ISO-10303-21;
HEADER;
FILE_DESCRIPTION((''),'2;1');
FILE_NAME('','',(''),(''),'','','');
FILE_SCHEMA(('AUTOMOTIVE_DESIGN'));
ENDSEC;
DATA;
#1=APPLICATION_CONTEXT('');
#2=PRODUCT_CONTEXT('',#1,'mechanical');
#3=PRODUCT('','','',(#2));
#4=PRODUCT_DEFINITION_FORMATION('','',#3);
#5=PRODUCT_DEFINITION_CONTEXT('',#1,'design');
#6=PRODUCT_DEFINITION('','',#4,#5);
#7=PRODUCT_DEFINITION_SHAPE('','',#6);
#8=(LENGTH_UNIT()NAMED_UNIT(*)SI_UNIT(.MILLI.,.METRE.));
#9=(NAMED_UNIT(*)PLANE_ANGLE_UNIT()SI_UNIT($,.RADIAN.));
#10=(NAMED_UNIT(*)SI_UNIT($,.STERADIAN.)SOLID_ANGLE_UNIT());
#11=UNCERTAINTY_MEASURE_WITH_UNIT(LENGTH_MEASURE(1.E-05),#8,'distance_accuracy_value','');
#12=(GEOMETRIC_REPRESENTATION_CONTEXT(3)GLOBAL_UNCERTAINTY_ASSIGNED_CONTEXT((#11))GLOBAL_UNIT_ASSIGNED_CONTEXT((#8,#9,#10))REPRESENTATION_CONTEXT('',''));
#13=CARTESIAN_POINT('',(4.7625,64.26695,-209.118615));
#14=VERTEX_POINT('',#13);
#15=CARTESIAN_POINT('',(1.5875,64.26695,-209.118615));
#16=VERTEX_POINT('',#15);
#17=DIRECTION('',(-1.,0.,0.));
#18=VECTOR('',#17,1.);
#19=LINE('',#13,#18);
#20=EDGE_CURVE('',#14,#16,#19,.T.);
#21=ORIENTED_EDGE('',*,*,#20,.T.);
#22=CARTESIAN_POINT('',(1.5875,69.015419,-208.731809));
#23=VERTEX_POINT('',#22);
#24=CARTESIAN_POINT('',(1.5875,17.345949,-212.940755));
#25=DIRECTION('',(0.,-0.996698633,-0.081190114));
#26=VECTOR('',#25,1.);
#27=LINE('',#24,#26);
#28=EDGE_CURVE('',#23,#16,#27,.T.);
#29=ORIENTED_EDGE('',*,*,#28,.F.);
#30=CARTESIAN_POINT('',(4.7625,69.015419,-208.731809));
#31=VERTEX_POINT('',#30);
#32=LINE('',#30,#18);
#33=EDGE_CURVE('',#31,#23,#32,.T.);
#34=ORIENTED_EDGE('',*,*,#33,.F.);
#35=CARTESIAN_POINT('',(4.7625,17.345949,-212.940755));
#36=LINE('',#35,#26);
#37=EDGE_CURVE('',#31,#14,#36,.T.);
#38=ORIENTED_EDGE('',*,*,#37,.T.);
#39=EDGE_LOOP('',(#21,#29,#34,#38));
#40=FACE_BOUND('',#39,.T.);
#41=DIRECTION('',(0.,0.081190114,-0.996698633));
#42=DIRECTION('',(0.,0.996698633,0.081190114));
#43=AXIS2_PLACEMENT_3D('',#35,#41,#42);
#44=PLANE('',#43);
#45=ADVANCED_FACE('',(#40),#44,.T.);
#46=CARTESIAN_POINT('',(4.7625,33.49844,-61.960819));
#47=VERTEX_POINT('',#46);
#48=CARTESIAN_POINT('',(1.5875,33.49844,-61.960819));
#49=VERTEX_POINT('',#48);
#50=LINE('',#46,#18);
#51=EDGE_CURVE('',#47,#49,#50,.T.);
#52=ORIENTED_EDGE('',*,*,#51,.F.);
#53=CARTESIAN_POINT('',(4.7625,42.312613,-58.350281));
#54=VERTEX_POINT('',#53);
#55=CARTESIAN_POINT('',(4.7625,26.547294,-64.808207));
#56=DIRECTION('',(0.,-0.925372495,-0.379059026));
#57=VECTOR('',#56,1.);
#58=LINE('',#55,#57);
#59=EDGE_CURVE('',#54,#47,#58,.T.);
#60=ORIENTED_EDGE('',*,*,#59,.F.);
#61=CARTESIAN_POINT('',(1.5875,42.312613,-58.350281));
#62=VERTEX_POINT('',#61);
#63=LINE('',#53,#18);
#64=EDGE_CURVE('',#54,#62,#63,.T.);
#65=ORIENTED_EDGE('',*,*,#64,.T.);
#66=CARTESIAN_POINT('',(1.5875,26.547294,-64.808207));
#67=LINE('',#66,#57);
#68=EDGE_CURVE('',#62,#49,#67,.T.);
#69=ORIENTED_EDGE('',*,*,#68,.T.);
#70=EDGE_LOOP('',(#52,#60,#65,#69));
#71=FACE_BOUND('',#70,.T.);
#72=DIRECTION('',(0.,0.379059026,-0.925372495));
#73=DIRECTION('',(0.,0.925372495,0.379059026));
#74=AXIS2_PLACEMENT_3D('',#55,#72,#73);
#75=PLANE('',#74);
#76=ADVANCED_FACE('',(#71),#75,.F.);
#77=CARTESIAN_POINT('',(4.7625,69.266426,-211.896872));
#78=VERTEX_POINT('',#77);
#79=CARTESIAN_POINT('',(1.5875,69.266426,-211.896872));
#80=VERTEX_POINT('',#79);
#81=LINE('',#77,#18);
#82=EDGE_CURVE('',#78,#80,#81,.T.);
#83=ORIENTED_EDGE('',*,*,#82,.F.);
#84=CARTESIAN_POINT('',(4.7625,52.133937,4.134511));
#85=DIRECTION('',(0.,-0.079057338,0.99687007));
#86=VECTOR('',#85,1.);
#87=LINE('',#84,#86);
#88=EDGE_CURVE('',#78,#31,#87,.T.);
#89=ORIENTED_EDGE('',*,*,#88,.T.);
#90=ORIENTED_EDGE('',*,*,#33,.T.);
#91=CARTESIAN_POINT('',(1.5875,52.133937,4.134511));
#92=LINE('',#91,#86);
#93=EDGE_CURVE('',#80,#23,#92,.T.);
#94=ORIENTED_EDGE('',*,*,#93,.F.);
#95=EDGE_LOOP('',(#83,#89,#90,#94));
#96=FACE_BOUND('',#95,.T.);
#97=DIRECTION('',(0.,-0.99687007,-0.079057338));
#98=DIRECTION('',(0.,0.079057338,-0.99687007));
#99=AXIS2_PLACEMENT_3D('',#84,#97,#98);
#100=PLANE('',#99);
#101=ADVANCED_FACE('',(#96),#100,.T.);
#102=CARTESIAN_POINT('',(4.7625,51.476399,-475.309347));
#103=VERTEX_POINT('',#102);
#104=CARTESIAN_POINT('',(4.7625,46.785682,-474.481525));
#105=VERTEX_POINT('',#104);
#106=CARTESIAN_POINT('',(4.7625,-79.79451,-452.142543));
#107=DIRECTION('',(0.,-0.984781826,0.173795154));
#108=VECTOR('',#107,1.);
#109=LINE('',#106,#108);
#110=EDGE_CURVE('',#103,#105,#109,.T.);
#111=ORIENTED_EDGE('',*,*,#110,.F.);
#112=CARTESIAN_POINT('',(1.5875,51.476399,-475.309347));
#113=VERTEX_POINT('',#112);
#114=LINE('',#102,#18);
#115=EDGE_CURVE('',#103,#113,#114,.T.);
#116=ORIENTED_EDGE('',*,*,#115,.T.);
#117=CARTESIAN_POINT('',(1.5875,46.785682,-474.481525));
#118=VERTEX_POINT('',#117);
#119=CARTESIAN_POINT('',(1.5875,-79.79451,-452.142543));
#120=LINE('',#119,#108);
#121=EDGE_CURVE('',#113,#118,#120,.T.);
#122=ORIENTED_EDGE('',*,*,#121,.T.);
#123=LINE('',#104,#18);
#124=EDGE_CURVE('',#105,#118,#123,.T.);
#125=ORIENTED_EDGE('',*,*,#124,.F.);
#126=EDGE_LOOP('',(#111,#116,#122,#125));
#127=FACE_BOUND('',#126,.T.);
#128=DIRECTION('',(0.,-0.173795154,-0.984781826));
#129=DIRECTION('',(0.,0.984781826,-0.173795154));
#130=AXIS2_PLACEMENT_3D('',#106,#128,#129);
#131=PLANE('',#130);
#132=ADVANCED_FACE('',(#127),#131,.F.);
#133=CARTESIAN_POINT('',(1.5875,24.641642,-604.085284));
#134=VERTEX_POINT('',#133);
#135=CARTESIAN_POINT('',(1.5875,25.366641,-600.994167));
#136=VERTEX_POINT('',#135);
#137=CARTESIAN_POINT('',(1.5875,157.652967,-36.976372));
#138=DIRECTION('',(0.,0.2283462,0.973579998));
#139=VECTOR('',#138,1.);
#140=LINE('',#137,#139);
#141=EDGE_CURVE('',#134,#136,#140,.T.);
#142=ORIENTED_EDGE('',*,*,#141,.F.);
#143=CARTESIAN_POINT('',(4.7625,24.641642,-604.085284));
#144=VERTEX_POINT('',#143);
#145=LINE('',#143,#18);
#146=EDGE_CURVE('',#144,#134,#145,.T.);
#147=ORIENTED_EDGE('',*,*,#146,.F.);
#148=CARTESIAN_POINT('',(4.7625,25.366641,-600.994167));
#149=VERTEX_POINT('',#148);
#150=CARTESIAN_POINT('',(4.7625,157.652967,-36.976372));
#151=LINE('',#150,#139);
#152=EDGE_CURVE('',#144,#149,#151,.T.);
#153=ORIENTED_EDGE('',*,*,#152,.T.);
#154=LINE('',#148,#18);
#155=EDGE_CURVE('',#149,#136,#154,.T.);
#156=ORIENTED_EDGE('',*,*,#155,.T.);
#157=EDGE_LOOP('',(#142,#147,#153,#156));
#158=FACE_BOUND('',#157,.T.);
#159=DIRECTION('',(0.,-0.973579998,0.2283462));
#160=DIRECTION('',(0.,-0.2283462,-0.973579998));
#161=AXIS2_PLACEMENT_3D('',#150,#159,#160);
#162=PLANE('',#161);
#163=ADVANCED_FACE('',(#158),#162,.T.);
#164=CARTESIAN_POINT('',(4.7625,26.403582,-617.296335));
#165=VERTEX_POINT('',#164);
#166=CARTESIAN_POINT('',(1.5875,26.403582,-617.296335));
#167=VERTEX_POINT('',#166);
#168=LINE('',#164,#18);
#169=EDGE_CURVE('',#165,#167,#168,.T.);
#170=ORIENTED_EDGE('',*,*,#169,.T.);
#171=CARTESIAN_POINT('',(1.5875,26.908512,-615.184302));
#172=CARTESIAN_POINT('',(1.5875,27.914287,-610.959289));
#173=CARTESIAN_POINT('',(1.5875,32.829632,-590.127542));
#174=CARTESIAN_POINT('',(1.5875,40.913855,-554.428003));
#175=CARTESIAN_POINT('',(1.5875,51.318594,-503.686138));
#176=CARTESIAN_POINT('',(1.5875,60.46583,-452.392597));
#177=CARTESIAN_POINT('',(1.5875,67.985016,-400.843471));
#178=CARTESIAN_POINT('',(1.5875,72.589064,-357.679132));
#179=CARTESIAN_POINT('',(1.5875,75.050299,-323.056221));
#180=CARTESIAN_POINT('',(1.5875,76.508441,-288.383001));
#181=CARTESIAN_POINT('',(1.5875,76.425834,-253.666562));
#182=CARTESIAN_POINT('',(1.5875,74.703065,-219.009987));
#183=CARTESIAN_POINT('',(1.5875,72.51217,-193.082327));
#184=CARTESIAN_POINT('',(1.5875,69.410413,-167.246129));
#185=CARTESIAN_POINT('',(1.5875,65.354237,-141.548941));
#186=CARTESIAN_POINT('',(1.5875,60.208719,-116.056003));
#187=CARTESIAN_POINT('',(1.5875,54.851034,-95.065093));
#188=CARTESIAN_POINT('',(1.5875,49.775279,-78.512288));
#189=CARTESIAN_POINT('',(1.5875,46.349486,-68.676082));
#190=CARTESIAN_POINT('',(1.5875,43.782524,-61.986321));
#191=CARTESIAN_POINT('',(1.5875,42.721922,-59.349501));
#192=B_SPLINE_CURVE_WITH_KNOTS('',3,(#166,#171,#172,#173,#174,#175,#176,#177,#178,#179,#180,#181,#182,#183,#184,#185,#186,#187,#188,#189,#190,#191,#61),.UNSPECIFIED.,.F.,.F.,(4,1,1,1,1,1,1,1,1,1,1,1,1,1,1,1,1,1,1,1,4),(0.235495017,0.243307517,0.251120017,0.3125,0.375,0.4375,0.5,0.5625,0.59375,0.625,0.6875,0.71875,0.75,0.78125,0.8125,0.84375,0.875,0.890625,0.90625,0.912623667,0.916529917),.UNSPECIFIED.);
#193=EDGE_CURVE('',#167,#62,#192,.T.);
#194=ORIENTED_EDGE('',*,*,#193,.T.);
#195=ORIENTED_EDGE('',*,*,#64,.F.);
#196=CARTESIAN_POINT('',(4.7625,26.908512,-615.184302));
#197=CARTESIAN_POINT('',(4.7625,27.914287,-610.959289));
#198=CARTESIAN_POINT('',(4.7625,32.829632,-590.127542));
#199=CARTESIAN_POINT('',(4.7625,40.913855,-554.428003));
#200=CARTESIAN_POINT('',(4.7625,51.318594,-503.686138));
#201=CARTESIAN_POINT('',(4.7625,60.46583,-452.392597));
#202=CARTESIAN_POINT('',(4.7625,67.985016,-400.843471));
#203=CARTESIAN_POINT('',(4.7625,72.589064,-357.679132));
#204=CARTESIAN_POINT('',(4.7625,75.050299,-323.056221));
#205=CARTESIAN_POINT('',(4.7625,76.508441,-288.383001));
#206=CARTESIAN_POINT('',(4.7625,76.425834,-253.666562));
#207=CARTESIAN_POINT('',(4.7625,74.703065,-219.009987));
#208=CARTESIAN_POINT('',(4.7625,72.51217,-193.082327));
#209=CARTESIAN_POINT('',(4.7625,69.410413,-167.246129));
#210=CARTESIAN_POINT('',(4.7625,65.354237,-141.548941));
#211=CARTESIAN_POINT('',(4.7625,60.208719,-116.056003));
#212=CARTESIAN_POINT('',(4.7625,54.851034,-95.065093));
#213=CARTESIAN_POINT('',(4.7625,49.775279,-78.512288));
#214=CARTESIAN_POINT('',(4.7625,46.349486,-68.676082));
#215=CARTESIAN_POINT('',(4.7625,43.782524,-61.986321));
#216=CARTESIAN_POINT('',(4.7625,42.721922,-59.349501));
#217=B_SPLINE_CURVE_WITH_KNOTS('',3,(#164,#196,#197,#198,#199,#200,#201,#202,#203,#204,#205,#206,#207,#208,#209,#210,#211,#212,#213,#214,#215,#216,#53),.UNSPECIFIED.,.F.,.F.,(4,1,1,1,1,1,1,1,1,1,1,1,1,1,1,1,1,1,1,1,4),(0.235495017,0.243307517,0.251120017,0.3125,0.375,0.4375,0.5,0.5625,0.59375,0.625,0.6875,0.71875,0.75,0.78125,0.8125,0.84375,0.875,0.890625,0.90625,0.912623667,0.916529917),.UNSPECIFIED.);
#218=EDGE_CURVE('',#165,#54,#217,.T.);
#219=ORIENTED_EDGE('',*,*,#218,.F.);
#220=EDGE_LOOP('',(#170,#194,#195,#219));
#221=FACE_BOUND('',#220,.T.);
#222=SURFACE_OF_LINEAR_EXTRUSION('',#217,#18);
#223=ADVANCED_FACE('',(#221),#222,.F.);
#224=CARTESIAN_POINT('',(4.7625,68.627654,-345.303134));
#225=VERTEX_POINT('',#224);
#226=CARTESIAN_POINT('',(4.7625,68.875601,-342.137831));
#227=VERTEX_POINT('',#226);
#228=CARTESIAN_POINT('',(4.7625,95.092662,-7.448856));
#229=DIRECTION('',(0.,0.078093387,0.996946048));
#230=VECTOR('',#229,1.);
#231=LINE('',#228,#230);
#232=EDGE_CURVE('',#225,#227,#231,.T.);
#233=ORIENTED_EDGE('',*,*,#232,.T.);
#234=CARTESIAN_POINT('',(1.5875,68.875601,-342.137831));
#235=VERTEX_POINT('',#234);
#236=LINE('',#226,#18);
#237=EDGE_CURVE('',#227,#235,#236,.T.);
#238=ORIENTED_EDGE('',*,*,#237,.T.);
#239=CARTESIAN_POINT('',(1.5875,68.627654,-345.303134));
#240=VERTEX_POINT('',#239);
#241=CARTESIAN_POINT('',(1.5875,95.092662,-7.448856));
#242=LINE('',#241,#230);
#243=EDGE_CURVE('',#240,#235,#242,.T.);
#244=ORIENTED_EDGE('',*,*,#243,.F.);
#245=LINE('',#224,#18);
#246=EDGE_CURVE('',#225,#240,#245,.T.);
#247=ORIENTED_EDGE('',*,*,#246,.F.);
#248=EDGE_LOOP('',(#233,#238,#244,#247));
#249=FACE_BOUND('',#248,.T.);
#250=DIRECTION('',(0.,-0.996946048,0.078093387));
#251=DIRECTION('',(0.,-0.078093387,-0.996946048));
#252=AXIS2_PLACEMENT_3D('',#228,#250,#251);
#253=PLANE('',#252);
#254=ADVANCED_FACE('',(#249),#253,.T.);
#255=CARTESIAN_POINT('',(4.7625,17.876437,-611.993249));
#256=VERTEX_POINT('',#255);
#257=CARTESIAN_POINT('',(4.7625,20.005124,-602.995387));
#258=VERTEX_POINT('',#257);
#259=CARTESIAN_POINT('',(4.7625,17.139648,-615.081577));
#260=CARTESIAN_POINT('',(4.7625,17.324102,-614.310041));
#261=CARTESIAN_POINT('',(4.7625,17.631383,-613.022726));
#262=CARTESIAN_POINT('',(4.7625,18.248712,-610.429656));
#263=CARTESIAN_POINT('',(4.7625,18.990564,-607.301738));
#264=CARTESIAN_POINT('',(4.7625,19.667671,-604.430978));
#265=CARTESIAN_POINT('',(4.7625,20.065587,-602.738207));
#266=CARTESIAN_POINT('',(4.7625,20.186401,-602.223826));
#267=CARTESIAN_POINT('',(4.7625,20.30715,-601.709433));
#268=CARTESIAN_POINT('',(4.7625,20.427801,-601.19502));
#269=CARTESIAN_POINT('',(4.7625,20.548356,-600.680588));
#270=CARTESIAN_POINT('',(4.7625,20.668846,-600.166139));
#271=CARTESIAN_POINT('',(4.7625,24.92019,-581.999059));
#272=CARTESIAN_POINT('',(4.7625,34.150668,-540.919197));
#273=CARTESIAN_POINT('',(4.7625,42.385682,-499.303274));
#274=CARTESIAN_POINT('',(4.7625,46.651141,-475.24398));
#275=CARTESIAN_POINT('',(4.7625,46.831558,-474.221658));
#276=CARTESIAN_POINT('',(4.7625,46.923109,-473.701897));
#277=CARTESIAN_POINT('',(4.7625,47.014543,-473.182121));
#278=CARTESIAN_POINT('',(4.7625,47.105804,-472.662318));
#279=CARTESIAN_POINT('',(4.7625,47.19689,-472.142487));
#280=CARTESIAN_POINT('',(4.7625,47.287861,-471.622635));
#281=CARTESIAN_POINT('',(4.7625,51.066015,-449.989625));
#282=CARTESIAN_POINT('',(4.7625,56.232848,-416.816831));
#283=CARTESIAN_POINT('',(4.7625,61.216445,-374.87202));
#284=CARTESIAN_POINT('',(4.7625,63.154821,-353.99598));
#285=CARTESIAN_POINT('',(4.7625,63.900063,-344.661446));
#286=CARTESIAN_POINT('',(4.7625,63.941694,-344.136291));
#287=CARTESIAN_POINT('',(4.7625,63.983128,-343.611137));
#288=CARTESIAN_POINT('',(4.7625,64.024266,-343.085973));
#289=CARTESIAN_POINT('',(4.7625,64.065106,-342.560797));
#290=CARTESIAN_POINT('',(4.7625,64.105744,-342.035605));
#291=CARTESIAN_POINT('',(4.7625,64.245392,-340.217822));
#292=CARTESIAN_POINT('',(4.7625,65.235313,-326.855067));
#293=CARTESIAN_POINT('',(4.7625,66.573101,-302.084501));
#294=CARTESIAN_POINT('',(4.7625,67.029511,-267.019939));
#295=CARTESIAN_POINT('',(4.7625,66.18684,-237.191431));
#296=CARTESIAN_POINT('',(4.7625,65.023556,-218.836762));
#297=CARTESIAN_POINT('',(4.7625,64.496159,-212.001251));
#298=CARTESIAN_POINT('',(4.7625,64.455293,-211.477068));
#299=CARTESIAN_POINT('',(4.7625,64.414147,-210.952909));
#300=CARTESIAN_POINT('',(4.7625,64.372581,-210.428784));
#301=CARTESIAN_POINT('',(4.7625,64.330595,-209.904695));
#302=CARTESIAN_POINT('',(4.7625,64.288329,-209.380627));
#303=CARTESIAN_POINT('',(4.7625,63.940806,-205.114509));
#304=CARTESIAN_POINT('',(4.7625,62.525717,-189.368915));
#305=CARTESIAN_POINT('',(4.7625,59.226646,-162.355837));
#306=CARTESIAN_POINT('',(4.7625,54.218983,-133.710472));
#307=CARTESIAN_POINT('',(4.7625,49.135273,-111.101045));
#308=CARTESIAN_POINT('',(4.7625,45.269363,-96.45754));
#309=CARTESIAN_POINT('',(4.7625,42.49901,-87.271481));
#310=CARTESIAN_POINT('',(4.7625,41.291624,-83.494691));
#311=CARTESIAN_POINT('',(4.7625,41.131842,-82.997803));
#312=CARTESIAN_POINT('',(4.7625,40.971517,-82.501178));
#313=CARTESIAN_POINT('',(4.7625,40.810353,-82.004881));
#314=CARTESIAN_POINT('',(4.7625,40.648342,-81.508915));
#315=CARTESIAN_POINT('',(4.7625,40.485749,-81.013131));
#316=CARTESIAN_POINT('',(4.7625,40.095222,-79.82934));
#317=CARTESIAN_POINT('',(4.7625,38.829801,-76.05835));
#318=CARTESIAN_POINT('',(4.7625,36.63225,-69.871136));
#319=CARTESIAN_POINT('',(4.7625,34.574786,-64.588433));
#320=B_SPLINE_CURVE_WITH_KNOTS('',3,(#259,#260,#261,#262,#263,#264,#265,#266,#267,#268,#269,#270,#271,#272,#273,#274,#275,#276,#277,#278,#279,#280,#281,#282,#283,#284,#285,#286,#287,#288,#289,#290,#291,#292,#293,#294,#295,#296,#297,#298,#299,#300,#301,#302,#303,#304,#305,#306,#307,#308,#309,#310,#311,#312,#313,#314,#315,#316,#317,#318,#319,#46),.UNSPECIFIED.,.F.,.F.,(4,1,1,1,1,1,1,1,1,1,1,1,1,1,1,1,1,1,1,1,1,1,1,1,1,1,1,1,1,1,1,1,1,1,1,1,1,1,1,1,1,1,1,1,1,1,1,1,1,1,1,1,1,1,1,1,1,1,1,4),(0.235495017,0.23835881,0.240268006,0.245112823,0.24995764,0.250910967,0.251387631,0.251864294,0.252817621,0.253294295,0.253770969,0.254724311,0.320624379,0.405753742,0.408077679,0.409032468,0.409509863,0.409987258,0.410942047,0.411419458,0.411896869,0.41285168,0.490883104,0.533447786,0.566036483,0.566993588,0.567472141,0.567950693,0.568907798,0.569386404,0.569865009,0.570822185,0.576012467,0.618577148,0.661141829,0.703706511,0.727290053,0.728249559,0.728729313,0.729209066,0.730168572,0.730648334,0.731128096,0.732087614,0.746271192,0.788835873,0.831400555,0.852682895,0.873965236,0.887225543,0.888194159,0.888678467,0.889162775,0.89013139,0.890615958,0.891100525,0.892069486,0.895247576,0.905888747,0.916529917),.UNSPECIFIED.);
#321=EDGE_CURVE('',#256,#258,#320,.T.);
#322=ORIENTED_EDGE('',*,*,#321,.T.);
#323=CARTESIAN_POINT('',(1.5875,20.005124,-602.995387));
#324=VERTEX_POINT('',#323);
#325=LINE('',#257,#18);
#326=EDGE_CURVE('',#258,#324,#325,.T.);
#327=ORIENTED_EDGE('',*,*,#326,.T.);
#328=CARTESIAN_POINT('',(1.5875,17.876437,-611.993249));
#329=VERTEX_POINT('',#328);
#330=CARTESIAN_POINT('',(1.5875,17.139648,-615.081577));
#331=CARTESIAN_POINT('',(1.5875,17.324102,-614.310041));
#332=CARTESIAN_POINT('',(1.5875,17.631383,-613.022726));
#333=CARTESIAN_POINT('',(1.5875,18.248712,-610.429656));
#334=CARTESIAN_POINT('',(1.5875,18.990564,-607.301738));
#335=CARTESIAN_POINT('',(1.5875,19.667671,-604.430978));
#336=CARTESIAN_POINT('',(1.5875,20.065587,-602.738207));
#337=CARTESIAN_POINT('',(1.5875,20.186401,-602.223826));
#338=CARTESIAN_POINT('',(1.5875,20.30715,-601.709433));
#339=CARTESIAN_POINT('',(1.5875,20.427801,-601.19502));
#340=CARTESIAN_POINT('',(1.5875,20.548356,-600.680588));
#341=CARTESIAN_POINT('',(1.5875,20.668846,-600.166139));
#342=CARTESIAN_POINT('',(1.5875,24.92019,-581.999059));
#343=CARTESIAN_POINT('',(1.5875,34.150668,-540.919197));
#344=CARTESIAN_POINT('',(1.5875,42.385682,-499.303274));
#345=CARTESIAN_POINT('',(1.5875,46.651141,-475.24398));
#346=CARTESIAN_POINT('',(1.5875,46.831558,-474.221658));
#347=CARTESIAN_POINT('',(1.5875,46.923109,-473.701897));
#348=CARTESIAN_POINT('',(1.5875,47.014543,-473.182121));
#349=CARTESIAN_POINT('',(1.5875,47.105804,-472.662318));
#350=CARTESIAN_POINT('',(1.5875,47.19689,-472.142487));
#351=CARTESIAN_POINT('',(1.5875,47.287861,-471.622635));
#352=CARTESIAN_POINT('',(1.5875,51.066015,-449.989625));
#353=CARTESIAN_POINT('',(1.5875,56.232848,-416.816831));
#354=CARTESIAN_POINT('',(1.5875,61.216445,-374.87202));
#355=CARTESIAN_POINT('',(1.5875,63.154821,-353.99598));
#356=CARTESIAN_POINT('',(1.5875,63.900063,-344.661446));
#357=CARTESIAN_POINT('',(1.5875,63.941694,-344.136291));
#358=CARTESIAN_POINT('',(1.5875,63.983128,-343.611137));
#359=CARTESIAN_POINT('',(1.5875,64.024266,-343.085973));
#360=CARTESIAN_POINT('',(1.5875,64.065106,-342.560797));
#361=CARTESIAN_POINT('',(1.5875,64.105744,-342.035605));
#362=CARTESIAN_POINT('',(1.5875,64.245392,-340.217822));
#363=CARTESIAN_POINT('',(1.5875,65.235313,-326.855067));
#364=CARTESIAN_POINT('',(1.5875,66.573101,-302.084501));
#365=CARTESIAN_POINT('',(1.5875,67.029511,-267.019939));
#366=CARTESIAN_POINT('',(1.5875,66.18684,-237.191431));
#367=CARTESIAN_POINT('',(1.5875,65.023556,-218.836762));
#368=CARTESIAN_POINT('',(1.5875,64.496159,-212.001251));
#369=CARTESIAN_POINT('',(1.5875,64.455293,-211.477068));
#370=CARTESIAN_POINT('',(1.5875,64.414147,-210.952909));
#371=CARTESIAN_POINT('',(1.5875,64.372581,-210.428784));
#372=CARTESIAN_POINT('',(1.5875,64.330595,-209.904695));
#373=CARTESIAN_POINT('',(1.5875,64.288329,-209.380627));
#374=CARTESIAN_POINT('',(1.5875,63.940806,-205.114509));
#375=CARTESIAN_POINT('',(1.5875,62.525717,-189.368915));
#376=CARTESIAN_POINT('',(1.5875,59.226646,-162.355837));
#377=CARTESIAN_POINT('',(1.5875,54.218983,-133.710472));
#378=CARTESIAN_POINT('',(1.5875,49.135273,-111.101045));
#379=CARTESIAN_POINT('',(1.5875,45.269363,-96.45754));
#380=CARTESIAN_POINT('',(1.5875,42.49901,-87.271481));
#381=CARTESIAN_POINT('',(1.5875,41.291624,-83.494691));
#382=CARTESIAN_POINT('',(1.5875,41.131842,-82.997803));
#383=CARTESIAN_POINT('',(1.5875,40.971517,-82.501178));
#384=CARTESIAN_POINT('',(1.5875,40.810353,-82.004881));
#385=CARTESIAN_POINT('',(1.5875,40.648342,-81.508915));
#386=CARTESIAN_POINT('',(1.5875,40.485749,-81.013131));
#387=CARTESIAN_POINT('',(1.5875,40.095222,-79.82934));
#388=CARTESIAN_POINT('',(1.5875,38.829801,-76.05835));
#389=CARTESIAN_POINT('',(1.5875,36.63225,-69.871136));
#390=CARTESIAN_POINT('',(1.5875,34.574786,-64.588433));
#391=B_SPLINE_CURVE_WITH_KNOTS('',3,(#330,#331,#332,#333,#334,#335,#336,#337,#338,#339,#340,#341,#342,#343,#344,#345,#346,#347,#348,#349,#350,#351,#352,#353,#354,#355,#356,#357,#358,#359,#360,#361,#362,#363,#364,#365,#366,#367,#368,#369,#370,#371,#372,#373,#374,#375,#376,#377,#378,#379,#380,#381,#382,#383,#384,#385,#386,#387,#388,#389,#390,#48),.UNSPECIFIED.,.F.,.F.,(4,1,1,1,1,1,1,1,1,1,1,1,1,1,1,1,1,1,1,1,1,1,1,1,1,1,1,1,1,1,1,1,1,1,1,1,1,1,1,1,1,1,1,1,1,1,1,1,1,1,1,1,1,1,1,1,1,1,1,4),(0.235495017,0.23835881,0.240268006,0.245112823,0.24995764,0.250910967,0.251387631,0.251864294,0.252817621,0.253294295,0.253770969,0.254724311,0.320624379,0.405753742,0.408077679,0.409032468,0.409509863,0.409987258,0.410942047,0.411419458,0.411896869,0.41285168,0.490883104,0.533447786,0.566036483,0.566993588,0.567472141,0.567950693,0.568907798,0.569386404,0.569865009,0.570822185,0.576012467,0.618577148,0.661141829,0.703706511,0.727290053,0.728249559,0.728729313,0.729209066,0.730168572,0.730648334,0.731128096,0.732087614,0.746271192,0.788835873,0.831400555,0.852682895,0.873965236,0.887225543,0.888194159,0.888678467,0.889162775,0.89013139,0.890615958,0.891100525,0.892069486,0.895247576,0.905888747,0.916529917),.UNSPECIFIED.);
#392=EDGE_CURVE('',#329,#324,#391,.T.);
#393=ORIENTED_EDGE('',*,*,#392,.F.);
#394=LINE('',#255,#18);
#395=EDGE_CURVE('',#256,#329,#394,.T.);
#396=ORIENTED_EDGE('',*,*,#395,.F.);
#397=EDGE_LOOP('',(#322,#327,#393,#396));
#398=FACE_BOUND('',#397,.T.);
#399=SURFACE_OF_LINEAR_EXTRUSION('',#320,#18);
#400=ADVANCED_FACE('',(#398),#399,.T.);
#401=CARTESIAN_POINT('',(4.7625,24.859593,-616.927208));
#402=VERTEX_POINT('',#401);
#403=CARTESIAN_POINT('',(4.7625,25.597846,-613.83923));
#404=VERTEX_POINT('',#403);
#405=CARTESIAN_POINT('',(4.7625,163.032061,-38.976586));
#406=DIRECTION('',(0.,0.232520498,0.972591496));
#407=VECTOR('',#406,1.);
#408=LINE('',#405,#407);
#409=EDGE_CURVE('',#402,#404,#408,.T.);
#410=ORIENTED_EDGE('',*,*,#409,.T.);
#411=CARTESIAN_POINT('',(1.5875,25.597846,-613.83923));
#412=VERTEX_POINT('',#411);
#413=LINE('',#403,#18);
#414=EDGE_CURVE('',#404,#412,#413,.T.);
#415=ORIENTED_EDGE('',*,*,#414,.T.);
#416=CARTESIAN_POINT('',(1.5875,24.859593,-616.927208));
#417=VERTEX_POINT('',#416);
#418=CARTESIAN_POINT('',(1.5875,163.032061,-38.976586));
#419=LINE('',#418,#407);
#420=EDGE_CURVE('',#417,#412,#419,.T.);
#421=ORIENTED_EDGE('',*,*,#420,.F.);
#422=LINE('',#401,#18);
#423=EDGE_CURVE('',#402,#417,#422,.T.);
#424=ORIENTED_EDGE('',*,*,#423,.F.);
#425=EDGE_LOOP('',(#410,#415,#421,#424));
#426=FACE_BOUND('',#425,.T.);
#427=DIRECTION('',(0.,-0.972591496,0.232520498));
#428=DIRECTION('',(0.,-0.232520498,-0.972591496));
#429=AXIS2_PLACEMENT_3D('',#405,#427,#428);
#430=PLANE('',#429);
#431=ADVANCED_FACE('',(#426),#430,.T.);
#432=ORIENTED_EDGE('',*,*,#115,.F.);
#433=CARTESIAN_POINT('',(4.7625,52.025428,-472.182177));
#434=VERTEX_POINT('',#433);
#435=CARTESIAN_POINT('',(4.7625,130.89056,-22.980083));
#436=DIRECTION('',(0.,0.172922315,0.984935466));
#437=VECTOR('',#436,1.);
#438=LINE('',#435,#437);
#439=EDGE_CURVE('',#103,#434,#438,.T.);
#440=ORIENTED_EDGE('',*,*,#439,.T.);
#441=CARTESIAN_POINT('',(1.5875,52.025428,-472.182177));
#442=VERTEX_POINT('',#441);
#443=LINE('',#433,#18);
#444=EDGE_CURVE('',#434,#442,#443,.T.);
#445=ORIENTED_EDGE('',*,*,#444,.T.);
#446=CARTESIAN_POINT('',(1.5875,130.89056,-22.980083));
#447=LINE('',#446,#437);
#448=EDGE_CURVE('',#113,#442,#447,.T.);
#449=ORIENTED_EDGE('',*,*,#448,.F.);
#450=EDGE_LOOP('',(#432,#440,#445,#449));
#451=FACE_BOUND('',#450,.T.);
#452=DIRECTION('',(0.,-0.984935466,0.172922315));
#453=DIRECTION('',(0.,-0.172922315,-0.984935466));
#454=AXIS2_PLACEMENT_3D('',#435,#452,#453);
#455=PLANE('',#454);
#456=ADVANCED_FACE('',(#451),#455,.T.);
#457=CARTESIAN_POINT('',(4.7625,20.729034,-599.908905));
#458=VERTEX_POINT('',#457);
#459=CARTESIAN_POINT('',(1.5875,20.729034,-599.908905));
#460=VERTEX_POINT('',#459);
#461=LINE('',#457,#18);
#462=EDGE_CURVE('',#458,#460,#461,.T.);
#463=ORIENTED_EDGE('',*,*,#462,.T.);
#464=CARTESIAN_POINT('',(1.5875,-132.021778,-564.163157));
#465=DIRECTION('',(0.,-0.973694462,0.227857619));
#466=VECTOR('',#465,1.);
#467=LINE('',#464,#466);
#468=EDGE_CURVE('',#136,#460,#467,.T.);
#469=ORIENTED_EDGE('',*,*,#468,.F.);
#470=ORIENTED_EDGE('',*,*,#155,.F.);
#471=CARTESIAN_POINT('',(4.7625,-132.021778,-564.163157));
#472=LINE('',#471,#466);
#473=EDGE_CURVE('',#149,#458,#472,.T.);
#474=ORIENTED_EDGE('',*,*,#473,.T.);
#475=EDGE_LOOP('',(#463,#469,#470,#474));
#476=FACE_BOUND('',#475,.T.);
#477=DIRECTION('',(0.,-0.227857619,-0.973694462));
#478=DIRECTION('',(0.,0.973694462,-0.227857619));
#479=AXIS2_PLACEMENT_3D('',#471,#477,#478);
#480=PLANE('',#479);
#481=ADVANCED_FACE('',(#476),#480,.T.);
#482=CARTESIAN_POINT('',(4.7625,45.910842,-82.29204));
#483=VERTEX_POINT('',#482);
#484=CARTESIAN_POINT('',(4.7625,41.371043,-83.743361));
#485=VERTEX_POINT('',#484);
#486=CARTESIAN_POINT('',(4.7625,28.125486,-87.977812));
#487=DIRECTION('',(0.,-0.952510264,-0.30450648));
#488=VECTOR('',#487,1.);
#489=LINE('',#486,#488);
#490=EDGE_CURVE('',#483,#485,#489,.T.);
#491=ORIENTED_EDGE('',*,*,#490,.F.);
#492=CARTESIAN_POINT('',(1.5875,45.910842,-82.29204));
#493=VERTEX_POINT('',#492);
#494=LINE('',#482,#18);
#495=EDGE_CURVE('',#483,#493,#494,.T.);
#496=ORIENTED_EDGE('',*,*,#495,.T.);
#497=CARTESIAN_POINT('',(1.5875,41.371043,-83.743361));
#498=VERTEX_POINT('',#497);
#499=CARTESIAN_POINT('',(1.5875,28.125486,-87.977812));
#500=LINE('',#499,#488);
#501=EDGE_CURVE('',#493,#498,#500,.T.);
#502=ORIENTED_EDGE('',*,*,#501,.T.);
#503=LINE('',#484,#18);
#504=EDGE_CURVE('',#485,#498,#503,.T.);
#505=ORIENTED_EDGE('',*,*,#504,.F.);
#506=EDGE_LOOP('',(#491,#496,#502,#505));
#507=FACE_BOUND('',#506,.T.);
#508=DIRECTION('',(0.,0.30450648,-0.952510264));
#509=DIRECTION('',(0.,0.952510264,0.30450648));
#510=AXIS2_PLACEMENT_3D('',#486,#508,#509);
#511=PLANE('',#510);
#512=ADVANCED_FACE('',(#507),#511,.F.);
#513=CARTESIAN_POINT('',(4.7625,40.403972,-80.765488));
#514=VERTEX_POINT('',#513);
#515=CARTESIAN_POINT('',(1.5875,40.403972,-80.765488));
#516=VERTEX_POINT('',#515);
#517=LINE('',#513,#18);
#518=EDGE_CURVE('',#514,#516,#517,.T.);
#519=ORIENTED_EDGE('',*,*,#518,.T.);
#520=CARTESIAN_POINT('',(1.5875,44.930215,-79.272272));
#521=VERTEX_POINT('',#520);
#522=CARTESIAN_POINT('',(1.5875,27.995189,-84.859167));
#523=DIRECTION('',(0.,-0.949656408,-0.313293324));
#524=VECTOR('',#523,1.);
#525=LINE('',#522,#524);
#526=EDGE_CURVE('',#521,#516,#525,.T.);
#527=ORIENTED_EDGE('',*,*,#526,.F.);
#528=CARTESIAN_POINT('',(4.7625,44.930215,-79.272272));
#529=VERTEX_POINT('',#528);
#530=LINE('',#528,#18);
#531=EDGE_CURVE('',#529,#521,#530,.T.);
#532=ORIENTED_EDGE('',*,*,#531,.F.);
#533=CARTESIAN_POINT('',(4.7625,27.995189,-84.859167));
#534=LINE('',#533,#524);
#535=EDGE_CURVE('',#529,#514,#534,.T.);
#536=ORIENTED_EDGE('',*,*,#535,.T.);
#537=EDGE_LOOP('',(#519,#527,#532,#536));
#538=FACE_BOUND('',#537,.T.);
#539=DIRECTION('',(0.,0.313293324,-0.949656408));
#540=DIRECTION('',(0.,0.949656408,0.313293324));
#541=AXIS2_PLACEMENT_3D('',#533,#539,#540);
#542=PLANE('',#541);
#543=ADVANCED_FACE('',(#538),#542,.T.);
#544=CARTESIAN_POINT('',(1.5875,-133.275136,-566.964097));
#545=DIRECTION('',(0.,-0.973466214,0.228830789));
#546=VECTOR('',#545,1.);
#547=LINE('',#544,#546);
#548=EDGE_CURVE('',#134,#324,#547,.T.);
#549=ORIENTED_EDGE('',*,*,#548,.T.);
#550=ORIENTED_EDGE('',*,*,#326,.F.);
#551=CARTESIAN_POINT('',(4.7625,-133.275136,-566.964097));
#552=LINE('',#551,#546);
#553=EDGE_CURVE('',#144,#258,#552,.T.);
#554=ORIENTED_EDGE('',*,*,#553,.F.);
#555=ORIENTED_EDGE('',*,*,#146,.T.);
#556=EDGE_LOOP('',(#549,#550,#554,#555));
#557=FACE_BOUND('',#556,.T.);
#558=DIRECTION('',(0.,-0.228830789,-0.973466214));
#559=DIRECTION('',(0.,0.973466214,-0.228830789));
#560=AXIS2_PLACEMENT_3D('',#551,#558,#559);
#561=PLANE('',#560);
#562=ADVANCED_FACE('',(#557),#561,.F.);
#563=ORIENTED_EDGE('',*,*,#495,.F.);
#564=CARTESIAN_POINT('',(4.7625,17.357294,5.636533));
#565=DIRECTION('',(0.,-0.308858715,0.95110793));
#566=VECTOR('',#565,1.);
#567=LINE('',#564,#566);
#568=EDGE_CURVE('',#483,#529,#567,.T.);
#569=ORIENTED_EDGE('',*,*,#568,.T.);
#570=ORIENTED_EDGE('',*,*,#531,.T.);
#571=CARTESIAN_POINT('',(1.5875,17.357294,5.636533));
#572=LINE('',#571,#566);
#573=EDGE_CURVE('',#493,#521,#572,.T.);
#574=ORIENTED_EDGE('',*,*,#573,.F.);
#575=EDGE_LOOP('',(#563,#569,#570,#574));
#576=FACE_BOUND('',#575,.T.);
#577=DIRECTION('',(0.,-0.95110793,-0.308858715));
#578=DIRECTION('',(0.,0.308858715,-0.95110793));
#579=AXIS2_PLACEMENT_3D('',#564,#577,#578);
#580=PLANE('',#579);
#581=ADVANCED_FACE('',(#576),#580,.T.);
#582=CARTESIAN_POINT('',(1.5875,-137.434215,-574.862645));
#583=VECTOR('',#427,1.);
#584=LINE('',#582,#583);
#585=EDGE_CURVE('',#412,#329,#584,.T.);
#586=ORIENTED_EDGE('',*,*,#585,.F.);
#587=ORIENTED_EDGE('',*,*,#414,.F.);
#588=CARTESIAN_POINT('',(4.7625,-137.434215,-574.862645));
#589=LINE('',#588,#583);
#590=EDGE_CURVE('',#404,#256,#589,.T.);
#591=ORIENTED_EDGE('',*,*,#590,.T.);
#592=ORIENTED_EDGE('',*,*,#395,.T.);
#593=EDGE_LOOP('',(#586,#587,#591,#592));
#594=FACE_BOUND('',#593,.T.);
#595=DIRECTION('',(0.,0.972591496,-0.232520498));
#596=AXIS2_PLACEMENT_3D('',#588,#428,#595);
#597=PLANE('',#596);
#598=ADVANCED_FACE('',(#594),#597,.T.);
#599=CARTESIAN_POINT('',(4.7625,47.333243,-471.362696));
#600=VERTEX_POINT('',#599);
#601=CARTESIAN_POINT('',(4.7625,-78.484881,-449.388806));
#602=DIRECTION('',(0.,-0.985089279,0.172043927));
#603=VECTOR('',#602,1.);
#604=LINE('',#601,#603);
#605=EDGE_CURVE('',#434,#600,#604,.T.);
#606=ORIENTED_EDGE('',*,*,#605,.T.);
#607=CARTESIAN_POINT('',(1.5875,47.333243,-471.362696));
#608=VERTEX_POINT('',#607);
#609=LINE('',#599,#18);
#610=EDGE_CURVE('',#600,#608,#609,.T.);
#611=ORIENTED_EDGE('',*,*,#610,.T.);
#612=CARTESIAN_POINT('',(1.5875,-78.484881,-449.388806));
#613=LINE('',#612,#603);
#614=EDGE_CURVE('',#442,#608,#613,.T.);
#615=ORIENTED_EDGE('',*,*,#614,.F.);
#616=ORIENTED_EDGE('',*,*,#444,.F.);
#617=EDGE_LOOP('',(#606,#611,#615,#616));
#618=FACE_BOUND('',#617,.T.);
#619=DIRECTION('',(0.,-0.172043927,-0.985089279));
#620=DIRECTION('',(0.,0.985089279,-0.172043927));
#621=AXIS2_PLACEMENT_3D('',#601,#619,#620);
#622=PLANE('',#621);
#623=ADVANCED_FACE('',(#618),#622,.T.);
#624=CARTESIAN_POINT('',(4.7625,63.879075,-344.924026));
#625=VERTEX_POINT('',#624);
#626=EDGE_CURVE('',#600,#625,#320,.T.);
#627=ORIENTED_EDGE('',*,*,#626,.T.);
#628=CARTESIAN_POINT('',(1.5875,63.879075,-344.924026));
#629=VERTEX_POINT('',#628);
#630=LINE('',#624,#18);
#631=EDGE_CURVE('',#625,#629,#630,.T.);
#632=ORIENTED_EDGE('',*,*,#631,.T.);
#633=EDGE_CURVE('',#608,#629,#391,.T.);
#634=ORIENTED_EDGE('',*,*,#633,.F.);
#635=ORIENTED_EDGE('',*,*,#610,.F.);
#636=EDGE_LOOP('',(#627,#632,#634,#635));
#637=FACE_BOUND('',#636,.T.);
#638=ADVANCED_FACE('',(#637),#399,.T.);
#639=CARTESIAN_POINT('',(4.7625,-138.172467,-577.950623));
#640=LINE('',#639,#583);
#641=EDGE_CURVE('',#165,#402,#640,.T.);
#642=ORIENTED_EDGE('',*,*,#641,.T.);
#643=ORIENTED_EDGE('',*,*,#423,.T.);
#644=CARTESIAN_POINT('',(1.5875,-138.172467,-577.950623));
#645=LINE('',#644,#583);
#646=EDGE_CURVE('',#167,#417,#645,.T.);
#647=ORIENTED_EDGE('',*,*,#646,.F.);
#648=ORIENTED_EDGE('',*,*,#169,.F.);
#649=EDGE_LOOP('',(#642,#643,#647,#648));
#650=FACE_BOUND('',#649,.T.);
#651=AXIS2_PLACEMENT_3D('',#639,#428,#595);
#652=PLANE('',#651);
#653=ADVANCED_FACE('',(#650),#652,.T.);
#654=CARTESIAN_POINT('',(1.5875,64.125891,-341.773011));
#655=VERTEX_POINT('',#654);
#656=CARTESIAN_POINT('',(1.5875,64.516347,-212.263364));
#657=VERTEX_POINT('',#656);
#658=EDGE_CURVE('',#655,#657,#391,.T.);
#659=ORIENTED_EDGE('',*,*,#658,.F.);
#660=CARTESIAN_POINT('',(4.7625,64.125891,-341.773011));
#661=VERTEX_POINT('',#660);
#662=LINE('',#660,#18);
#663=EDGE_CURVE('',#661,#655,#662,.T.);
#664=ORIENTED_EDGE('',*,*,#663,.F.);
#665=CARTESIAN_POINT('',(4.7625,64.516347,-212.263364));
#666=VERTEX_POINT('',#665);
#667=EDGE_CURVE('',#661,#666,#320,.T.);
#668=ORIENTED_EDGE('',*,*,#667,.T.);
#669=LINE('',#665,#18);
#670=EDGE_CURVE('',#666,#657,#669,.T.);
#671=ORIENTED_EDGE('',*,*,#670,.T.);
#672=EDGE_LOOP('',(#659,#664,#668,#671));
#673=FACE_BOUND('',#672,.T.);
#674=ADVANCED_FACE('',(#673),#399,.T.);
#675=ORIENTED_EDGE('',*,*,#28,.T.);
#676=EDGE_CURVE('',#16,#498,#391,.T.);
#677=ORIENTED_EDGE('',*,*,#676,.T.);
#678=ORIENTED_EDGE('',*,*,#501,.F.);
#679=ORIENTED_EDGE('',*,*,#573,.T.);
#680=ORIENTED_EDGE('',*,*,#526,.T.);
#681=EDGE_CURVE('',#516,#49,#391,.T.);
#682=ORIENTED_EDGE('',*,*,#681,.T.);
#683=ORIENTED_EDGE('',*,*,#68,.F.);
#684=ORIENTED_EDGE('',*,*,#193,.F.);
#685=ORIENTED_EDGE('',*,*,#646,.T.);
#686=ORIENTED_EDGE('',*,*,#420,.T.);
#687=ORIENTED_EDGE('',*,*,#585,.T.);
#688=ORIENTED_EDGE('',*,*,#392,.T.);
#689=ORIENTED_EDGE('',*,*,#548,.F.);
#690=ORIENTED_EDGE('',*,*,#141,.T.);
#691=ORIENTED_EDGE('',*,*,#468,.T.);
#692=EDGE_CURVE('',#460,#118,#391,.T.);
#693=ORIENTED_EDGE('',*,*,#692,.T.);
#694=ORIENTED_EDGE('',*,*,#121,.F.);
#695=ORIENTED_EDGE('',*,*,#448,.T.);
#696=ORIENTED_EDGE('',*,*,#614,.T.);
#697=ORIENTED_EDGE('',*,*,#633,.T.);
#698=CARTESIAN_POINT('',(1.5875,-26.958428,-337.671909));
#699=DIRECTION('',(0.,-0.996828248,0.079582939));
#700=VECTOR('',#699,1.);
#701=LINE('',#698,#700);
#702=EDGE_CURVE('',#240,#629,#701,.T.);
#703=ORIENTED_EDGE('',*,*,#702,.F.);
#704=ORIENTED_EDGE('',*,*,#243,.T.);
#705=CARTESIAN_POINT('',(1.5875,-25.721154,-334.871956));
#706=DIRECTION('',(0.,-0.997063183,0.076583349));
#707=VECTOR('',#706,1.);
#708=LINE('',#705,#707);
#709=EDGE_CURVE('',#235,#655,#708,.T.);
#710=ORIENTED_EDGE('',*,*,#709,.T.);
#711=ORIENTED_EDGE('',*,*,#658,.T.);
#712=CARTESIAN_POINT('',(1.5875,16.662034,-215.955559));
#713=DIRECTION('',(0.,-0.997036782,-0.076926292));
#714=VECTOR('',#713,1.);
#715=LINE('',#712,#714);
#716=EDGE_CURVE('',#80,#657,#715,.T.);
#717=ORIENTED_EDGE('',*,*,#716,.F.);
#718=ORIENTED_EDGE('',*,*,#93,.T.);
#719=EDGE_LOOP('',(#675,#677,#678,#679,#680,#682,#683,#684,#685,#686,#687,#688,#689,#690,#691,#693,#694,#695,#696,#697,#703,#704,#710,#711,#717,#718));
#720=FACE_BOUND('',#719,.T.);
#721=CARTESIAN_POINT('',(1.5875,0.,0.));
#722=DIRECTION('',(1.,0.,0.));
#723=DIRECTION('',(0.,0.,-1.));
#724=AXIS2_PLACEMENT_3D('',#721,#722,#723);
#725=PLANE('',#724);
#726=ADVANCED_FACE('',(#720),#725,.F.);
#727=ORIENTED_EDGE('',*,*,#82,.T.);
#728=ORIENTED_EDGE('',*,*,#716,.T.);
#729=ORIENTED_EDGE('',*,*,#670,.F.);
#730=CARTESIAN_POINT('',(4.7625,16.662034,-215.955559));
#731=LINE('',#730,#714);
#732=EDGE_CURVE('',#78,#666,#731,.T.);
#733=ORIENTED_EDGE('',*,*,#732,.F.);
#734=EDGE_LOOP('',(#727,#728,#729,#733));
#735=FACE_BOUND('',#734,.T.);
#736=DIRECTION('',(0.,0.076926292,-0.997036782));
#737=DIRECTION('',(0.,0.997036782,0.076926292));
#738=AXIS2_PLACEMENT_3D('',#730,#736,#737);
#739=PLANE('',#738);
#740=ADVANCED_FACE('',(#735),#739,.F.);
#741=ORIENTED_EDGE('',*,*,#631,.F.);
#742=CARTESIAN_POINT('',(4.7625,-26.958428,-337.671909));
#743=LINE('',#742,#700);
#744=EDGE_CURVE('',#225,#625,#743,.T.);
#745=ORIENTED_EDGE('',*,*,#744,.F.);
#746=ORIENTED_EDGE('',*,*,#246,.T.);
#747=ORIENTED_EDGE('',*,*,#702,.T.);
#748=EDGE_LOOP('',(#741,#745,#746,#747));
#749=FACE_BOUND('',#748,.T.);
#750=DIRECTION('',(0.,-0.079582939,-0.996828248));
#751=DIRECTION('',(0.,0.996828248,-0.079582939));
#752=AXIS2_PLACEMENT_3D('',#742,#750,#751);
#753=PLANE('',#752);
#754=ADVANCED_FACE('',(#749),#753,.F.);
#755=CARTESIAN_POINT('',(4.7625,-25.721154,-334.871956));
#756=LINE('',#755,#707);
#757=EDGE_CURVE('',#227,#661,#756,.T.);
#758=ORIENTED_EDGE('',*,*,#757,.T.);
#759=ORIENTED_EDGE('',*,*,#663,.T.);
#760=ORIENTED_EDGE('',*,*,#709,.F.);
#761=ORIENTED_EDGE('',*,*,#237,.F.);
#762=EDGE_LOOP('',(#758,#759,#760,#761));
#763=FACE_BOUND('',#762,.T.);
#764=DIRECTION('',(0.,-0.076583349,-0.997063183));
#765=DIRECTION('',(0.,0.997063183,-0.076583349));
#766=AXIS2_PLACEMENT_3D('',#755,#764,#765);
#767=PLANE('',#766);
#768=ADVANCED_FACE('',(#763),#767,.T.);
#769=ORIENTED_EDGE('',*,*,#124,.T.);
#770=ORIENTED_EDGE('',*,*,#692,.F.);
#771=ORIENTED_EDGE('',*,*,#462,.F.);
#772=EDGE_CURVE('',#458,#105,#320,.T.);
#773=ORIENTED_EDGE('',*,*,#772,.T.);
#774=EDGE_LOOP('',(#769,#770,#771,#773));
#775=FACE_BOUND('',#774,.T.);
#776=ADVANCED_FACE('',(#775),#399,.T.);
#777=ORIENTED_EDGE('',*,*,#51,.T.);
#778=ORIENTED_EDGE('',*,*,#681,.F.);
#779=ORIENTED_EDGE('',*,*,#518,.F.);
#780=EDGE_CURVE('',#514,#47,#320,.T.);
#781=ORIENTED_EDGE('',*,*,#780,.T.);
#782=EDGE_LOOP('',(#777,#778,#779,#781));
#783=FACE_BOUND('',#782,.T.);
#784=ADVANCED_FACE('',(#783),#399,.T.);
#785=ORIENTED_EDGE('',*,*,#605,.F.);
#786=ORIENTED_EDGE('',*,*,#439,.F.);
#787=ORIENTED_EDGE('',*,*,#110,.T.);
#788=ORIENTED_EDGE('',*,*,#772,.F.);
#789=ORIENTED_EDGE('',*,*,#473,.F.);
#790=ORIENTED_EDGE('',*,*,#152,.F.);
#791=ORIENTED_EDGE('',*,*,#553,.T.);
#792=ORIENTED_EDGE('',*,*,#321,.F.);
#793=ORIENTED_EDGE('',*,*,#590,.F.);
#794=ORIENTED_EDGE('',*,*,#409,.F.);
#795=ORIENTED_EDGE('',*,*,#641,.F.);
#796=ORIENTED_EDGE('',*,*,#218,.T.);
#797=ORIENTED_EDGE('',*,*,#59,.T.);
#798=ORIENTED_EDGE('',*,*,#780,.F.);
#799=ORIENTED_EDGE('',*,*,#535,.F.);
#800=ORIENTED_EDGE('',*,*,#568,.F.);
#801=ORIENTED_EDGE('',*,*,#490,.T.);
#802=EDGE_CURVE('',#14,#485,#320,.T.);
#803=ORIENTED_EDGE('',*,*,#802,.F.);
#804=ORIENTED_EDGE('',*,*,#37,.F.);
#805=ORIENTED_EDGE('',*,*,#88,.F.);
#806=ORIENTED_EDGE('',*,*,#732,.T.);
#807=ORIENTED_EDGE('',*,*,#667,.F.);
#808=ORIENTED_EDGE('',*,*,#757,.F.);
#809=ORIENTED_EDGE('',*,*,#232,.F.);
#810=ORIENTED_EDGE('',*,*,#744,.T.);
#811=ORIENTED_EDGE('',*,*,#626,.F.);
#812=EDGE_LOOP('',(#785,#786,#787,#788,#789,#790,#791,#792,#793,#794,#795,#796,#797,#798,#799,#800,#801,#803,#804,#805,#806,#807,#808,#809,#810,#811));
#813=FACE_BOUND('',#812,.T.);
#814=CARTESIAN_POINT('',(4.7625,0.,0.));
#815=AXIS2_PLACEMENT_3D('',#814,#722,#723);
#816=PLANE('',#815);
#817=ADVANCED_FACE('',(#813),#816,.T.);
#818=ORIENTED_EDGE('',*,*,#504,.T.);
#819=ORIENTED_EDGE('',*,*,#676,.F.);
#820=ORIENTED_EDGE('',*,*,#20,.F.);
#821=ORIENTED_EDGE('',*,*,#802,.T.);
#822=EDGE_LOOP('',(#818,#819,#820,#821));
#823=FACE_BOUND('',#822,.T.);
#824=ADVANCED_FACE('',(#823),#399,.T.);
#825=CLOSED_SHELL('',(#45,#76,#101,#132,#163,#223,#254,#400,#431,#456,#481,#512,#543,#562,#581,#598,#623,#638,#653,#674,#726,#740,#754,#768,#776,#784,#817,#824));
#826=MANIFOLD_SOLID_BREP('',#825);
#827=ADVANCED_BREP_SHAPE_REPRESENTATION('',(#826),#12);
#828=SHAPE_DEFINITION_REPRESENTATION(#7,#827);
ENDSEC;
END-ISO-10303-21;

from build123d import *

# Parameters (mm, degrees)
BOSS_EXTRUDE2_START = 1.5875
BOSS_EXTRUDE2_DEPTH = 3.175


with BuildPart() as part:
    # Sketch1 → Boss-Extrude2 (new body)
    with BuildSketch(Plane(origin=(0, 0, 0), x_dir=(0, 0, -1), z_dir=(1, 0, 0)).offset(BOSS_EXTRUDE2_START)):
        with BuildLine():
            add(Edge.make_bspline(
                [(617.296334759, 26.403582169), (615.184301915, 26.908512482), (610.959288876, 27.914287333), (590.127541527, 32.829631776), (554.428003339, 40.913855014), (503.686138006, 51.318593932), (452.392596731, 60.465829991), (400.843471229, 67.985015872), (357.679132335, 72.589063507), (323.056220782, 75.05029926), (288.383000879, 76.508441281), (253.666561863, 76.425834439), (219.00998711, 74.703065258), (193.082327137, 72.512170168), (167.246128756, 69.410412561), (141.548940999, 65.354237292), (116.056003419, 60.208718519), (95.065092929, 54.851033869), (78.512288233, 49.775279208), (68.676082386, 46.349486029), (61.98632054, 43.782524426), (59.349501123, 42.721922328), (58.35028136, 42.31261335)],
                knots=[0.235495017, 0.235495017, 0.235495017, 0.235495017, 0.243307517, 0.251120017, 0.3125, 0.375, 0.4375, 0.5, 0.5625, 0.59375, 0.625, 0.6875, 0.71875, 0.75, 0.78125, 0.8125, 0.84375, 0.875, 0.890625, 0.90625, 0.912623667, 0.916529917, 0.916529917, 0.916529917, 0.916529917], degree=3))
            Line((58.35028136, 42.31261335), (61.960818582, 33.498440334))
            add(Edge.make_bspline(
                [(80.765487592, 40.403971738), (80.641658459, 40.363120288), (79.705797378, 40.053764879), (76.058349534, 38.829801361), (69.87113551, 36.632249503), (64.588433246, 34.574786411), (61.960818582, 33.498440334)],
                knots=[0.891585006, 0.891585006, 0.891585006, 0.891585006, 0.892069486, 0.895247576, 0.905888747, 0.916529917, 0.916529917, 0.916529917, 0.916529917], degree=3))
            Line((80.765487592, 40.403971738), (79.272271862, 44.930215281))
            Line((79.272271862, 44.930215281), (82.292039539, 45.9108417))
            Line((82.292039539, 45.9108417), (83.743360553, 41.371042866))
            add(Edge.make_bspline(
                [(209.118614924, 64.266949703), (208.987607746, 64.256277984), (204.983606318, 63.929041788), (189.3689148, 62.525717248), (162.355837105, 59.226646099), (133.710472047, 54.218983274), (111.101045047, 49.13527315), (96.457540116, 45.269363387), (87.39676216, 42.536792097), (83.867679496, 41.41078619), (83.743360553, 41.371042866)],
                knots=[0.731607855, 0.731607855, 0.731607855, 0.731607855, 0.732087614, 0.746271192, 0.788835873, 0.831400555, 0.852682895, 0.873965236, 0.887225543, 0.887709851, 0.887709851, 0.887709851, 0.887709851], degree=3))
            Line((209.118614924, 64.266949703), (208.73180914, 69.015419412))
            Line((208.73180914, 69.015419412), (211.896871614, 69.266426461))
            Line((211.896871614, 69.266426461), (212.263363621, 64.516346849))
            add(Edge.make_bspline(
                [(341.77301052, 64.125891337), (341.641715735, 64.135975948), (340.086535396, 64.255117907), (326.855067365, 65.235313291), (302.0845014, 66.573100845), (267.019938729, 67.029511391), (237.191430938, 66.186839541), (218.967979086, 65.031872482), (212.394418494, 64.526458377), (212.263363621, 64.516346849)],
                knots=[0.570343597, 0.570343597, 0.570343597, 0.570343597, 0.570822185, 0.576012467, 0.618577148, 0.661141829, 0.703706511, 0.727290053, 0.727769806, 0.727769806, 0.727769806, 0.727769806], degree=3))
            Line((341.77301052, 64.125891337), (342.137830582, 68.87560072))
            Line((342.137830582, 68.87560072), (345.303134285, 68.627654217))
            Line((345.303134285, 68.627654217), (344.924025936, 63.879074739))
            add(Edge.make_bspline(
                [(471.36269634, 47.333243498), (471.232728453, 47.355942137), (449.859334549, 51.086308134), (416.816830974, 56.23284789), (374.87201984, 61.216445173), (354.12724004, 63.142633245), (345.055315661, 63.868593071), (344.924025936, 63.879074739)],
                knots=[0.412374275, 0.412374275, 0.412374275, 0.412374275, 0.41285168, 0.490883104, 0.533447786, 0.566036483, 0.566515036, 0.566515036, 0.566515036, 0.566515036], degree=3))
            Line((471.36269634, 47.333243498), (472.182177193, 52.025427747))
            Line((472.182177193, 52.025427747), (475.309347299, 51.476399398))
            Line((475.309347299, 51.476399398), (474.481525493, 46.785682475))
            add(Edge.make_bspline(
                [(599.908904815, 20.729034105), (599.780288878, 20.759131966), (581.87021839, 24.949139998), (540.91919667, 34.150667692), (499.303273759, 42.385681838), (475.373897939, 46.628107797), (474.611460048, 46.762751511), (474.481525493, 46.785682475)],
                knots=[0.25424764, 0.25424764, 0.25424764, 0.25424764, 0.254724311, 0.320624379, 0.405753742, 0.408077679, 0.408555073, 0.408555073, 0.408555073, 0.408555073], degree=3))
            Line((599.908904815, 20.729034105), (600.994167359, 25.366641285))
            Line((600.994167359, 25.366641285), (604.085283853, 24.641642099))
            Line((604.085283853, 24.641642099), (602.995386693, 20.005124146))
            add(Edge.make_bspline(
                [(611.993248957, 17.876436525), (611.735864961, 17.937711546), (610.172224401, 18.309767327), (607.301737758, 18.990564407), (604.559549516, 19.637345533), (603.12397738, 19.974896587), (602.995386693, 20.005124146)],
                knots=[0.239313408, 0.239313408, 0.239313408, 0.239313408, 0.240268006, 0.245112823, 0.24995764, 0.250434304, 0.250434304, 0.250434304, 0.250434304], degree=3))
            Line((611.993248957, 17.876436525), (613.839230468, 25.597845751))
            Line((613.839230468, 25.597845751), (616.927208468, 24.859593169))
            Line((616.927208468, 24.859593169), (617.296334759, 26.403582169))
        make_face()
    extrude(amount=BOSS_EXTRUDE2_DEPTH)


solid = part.part
